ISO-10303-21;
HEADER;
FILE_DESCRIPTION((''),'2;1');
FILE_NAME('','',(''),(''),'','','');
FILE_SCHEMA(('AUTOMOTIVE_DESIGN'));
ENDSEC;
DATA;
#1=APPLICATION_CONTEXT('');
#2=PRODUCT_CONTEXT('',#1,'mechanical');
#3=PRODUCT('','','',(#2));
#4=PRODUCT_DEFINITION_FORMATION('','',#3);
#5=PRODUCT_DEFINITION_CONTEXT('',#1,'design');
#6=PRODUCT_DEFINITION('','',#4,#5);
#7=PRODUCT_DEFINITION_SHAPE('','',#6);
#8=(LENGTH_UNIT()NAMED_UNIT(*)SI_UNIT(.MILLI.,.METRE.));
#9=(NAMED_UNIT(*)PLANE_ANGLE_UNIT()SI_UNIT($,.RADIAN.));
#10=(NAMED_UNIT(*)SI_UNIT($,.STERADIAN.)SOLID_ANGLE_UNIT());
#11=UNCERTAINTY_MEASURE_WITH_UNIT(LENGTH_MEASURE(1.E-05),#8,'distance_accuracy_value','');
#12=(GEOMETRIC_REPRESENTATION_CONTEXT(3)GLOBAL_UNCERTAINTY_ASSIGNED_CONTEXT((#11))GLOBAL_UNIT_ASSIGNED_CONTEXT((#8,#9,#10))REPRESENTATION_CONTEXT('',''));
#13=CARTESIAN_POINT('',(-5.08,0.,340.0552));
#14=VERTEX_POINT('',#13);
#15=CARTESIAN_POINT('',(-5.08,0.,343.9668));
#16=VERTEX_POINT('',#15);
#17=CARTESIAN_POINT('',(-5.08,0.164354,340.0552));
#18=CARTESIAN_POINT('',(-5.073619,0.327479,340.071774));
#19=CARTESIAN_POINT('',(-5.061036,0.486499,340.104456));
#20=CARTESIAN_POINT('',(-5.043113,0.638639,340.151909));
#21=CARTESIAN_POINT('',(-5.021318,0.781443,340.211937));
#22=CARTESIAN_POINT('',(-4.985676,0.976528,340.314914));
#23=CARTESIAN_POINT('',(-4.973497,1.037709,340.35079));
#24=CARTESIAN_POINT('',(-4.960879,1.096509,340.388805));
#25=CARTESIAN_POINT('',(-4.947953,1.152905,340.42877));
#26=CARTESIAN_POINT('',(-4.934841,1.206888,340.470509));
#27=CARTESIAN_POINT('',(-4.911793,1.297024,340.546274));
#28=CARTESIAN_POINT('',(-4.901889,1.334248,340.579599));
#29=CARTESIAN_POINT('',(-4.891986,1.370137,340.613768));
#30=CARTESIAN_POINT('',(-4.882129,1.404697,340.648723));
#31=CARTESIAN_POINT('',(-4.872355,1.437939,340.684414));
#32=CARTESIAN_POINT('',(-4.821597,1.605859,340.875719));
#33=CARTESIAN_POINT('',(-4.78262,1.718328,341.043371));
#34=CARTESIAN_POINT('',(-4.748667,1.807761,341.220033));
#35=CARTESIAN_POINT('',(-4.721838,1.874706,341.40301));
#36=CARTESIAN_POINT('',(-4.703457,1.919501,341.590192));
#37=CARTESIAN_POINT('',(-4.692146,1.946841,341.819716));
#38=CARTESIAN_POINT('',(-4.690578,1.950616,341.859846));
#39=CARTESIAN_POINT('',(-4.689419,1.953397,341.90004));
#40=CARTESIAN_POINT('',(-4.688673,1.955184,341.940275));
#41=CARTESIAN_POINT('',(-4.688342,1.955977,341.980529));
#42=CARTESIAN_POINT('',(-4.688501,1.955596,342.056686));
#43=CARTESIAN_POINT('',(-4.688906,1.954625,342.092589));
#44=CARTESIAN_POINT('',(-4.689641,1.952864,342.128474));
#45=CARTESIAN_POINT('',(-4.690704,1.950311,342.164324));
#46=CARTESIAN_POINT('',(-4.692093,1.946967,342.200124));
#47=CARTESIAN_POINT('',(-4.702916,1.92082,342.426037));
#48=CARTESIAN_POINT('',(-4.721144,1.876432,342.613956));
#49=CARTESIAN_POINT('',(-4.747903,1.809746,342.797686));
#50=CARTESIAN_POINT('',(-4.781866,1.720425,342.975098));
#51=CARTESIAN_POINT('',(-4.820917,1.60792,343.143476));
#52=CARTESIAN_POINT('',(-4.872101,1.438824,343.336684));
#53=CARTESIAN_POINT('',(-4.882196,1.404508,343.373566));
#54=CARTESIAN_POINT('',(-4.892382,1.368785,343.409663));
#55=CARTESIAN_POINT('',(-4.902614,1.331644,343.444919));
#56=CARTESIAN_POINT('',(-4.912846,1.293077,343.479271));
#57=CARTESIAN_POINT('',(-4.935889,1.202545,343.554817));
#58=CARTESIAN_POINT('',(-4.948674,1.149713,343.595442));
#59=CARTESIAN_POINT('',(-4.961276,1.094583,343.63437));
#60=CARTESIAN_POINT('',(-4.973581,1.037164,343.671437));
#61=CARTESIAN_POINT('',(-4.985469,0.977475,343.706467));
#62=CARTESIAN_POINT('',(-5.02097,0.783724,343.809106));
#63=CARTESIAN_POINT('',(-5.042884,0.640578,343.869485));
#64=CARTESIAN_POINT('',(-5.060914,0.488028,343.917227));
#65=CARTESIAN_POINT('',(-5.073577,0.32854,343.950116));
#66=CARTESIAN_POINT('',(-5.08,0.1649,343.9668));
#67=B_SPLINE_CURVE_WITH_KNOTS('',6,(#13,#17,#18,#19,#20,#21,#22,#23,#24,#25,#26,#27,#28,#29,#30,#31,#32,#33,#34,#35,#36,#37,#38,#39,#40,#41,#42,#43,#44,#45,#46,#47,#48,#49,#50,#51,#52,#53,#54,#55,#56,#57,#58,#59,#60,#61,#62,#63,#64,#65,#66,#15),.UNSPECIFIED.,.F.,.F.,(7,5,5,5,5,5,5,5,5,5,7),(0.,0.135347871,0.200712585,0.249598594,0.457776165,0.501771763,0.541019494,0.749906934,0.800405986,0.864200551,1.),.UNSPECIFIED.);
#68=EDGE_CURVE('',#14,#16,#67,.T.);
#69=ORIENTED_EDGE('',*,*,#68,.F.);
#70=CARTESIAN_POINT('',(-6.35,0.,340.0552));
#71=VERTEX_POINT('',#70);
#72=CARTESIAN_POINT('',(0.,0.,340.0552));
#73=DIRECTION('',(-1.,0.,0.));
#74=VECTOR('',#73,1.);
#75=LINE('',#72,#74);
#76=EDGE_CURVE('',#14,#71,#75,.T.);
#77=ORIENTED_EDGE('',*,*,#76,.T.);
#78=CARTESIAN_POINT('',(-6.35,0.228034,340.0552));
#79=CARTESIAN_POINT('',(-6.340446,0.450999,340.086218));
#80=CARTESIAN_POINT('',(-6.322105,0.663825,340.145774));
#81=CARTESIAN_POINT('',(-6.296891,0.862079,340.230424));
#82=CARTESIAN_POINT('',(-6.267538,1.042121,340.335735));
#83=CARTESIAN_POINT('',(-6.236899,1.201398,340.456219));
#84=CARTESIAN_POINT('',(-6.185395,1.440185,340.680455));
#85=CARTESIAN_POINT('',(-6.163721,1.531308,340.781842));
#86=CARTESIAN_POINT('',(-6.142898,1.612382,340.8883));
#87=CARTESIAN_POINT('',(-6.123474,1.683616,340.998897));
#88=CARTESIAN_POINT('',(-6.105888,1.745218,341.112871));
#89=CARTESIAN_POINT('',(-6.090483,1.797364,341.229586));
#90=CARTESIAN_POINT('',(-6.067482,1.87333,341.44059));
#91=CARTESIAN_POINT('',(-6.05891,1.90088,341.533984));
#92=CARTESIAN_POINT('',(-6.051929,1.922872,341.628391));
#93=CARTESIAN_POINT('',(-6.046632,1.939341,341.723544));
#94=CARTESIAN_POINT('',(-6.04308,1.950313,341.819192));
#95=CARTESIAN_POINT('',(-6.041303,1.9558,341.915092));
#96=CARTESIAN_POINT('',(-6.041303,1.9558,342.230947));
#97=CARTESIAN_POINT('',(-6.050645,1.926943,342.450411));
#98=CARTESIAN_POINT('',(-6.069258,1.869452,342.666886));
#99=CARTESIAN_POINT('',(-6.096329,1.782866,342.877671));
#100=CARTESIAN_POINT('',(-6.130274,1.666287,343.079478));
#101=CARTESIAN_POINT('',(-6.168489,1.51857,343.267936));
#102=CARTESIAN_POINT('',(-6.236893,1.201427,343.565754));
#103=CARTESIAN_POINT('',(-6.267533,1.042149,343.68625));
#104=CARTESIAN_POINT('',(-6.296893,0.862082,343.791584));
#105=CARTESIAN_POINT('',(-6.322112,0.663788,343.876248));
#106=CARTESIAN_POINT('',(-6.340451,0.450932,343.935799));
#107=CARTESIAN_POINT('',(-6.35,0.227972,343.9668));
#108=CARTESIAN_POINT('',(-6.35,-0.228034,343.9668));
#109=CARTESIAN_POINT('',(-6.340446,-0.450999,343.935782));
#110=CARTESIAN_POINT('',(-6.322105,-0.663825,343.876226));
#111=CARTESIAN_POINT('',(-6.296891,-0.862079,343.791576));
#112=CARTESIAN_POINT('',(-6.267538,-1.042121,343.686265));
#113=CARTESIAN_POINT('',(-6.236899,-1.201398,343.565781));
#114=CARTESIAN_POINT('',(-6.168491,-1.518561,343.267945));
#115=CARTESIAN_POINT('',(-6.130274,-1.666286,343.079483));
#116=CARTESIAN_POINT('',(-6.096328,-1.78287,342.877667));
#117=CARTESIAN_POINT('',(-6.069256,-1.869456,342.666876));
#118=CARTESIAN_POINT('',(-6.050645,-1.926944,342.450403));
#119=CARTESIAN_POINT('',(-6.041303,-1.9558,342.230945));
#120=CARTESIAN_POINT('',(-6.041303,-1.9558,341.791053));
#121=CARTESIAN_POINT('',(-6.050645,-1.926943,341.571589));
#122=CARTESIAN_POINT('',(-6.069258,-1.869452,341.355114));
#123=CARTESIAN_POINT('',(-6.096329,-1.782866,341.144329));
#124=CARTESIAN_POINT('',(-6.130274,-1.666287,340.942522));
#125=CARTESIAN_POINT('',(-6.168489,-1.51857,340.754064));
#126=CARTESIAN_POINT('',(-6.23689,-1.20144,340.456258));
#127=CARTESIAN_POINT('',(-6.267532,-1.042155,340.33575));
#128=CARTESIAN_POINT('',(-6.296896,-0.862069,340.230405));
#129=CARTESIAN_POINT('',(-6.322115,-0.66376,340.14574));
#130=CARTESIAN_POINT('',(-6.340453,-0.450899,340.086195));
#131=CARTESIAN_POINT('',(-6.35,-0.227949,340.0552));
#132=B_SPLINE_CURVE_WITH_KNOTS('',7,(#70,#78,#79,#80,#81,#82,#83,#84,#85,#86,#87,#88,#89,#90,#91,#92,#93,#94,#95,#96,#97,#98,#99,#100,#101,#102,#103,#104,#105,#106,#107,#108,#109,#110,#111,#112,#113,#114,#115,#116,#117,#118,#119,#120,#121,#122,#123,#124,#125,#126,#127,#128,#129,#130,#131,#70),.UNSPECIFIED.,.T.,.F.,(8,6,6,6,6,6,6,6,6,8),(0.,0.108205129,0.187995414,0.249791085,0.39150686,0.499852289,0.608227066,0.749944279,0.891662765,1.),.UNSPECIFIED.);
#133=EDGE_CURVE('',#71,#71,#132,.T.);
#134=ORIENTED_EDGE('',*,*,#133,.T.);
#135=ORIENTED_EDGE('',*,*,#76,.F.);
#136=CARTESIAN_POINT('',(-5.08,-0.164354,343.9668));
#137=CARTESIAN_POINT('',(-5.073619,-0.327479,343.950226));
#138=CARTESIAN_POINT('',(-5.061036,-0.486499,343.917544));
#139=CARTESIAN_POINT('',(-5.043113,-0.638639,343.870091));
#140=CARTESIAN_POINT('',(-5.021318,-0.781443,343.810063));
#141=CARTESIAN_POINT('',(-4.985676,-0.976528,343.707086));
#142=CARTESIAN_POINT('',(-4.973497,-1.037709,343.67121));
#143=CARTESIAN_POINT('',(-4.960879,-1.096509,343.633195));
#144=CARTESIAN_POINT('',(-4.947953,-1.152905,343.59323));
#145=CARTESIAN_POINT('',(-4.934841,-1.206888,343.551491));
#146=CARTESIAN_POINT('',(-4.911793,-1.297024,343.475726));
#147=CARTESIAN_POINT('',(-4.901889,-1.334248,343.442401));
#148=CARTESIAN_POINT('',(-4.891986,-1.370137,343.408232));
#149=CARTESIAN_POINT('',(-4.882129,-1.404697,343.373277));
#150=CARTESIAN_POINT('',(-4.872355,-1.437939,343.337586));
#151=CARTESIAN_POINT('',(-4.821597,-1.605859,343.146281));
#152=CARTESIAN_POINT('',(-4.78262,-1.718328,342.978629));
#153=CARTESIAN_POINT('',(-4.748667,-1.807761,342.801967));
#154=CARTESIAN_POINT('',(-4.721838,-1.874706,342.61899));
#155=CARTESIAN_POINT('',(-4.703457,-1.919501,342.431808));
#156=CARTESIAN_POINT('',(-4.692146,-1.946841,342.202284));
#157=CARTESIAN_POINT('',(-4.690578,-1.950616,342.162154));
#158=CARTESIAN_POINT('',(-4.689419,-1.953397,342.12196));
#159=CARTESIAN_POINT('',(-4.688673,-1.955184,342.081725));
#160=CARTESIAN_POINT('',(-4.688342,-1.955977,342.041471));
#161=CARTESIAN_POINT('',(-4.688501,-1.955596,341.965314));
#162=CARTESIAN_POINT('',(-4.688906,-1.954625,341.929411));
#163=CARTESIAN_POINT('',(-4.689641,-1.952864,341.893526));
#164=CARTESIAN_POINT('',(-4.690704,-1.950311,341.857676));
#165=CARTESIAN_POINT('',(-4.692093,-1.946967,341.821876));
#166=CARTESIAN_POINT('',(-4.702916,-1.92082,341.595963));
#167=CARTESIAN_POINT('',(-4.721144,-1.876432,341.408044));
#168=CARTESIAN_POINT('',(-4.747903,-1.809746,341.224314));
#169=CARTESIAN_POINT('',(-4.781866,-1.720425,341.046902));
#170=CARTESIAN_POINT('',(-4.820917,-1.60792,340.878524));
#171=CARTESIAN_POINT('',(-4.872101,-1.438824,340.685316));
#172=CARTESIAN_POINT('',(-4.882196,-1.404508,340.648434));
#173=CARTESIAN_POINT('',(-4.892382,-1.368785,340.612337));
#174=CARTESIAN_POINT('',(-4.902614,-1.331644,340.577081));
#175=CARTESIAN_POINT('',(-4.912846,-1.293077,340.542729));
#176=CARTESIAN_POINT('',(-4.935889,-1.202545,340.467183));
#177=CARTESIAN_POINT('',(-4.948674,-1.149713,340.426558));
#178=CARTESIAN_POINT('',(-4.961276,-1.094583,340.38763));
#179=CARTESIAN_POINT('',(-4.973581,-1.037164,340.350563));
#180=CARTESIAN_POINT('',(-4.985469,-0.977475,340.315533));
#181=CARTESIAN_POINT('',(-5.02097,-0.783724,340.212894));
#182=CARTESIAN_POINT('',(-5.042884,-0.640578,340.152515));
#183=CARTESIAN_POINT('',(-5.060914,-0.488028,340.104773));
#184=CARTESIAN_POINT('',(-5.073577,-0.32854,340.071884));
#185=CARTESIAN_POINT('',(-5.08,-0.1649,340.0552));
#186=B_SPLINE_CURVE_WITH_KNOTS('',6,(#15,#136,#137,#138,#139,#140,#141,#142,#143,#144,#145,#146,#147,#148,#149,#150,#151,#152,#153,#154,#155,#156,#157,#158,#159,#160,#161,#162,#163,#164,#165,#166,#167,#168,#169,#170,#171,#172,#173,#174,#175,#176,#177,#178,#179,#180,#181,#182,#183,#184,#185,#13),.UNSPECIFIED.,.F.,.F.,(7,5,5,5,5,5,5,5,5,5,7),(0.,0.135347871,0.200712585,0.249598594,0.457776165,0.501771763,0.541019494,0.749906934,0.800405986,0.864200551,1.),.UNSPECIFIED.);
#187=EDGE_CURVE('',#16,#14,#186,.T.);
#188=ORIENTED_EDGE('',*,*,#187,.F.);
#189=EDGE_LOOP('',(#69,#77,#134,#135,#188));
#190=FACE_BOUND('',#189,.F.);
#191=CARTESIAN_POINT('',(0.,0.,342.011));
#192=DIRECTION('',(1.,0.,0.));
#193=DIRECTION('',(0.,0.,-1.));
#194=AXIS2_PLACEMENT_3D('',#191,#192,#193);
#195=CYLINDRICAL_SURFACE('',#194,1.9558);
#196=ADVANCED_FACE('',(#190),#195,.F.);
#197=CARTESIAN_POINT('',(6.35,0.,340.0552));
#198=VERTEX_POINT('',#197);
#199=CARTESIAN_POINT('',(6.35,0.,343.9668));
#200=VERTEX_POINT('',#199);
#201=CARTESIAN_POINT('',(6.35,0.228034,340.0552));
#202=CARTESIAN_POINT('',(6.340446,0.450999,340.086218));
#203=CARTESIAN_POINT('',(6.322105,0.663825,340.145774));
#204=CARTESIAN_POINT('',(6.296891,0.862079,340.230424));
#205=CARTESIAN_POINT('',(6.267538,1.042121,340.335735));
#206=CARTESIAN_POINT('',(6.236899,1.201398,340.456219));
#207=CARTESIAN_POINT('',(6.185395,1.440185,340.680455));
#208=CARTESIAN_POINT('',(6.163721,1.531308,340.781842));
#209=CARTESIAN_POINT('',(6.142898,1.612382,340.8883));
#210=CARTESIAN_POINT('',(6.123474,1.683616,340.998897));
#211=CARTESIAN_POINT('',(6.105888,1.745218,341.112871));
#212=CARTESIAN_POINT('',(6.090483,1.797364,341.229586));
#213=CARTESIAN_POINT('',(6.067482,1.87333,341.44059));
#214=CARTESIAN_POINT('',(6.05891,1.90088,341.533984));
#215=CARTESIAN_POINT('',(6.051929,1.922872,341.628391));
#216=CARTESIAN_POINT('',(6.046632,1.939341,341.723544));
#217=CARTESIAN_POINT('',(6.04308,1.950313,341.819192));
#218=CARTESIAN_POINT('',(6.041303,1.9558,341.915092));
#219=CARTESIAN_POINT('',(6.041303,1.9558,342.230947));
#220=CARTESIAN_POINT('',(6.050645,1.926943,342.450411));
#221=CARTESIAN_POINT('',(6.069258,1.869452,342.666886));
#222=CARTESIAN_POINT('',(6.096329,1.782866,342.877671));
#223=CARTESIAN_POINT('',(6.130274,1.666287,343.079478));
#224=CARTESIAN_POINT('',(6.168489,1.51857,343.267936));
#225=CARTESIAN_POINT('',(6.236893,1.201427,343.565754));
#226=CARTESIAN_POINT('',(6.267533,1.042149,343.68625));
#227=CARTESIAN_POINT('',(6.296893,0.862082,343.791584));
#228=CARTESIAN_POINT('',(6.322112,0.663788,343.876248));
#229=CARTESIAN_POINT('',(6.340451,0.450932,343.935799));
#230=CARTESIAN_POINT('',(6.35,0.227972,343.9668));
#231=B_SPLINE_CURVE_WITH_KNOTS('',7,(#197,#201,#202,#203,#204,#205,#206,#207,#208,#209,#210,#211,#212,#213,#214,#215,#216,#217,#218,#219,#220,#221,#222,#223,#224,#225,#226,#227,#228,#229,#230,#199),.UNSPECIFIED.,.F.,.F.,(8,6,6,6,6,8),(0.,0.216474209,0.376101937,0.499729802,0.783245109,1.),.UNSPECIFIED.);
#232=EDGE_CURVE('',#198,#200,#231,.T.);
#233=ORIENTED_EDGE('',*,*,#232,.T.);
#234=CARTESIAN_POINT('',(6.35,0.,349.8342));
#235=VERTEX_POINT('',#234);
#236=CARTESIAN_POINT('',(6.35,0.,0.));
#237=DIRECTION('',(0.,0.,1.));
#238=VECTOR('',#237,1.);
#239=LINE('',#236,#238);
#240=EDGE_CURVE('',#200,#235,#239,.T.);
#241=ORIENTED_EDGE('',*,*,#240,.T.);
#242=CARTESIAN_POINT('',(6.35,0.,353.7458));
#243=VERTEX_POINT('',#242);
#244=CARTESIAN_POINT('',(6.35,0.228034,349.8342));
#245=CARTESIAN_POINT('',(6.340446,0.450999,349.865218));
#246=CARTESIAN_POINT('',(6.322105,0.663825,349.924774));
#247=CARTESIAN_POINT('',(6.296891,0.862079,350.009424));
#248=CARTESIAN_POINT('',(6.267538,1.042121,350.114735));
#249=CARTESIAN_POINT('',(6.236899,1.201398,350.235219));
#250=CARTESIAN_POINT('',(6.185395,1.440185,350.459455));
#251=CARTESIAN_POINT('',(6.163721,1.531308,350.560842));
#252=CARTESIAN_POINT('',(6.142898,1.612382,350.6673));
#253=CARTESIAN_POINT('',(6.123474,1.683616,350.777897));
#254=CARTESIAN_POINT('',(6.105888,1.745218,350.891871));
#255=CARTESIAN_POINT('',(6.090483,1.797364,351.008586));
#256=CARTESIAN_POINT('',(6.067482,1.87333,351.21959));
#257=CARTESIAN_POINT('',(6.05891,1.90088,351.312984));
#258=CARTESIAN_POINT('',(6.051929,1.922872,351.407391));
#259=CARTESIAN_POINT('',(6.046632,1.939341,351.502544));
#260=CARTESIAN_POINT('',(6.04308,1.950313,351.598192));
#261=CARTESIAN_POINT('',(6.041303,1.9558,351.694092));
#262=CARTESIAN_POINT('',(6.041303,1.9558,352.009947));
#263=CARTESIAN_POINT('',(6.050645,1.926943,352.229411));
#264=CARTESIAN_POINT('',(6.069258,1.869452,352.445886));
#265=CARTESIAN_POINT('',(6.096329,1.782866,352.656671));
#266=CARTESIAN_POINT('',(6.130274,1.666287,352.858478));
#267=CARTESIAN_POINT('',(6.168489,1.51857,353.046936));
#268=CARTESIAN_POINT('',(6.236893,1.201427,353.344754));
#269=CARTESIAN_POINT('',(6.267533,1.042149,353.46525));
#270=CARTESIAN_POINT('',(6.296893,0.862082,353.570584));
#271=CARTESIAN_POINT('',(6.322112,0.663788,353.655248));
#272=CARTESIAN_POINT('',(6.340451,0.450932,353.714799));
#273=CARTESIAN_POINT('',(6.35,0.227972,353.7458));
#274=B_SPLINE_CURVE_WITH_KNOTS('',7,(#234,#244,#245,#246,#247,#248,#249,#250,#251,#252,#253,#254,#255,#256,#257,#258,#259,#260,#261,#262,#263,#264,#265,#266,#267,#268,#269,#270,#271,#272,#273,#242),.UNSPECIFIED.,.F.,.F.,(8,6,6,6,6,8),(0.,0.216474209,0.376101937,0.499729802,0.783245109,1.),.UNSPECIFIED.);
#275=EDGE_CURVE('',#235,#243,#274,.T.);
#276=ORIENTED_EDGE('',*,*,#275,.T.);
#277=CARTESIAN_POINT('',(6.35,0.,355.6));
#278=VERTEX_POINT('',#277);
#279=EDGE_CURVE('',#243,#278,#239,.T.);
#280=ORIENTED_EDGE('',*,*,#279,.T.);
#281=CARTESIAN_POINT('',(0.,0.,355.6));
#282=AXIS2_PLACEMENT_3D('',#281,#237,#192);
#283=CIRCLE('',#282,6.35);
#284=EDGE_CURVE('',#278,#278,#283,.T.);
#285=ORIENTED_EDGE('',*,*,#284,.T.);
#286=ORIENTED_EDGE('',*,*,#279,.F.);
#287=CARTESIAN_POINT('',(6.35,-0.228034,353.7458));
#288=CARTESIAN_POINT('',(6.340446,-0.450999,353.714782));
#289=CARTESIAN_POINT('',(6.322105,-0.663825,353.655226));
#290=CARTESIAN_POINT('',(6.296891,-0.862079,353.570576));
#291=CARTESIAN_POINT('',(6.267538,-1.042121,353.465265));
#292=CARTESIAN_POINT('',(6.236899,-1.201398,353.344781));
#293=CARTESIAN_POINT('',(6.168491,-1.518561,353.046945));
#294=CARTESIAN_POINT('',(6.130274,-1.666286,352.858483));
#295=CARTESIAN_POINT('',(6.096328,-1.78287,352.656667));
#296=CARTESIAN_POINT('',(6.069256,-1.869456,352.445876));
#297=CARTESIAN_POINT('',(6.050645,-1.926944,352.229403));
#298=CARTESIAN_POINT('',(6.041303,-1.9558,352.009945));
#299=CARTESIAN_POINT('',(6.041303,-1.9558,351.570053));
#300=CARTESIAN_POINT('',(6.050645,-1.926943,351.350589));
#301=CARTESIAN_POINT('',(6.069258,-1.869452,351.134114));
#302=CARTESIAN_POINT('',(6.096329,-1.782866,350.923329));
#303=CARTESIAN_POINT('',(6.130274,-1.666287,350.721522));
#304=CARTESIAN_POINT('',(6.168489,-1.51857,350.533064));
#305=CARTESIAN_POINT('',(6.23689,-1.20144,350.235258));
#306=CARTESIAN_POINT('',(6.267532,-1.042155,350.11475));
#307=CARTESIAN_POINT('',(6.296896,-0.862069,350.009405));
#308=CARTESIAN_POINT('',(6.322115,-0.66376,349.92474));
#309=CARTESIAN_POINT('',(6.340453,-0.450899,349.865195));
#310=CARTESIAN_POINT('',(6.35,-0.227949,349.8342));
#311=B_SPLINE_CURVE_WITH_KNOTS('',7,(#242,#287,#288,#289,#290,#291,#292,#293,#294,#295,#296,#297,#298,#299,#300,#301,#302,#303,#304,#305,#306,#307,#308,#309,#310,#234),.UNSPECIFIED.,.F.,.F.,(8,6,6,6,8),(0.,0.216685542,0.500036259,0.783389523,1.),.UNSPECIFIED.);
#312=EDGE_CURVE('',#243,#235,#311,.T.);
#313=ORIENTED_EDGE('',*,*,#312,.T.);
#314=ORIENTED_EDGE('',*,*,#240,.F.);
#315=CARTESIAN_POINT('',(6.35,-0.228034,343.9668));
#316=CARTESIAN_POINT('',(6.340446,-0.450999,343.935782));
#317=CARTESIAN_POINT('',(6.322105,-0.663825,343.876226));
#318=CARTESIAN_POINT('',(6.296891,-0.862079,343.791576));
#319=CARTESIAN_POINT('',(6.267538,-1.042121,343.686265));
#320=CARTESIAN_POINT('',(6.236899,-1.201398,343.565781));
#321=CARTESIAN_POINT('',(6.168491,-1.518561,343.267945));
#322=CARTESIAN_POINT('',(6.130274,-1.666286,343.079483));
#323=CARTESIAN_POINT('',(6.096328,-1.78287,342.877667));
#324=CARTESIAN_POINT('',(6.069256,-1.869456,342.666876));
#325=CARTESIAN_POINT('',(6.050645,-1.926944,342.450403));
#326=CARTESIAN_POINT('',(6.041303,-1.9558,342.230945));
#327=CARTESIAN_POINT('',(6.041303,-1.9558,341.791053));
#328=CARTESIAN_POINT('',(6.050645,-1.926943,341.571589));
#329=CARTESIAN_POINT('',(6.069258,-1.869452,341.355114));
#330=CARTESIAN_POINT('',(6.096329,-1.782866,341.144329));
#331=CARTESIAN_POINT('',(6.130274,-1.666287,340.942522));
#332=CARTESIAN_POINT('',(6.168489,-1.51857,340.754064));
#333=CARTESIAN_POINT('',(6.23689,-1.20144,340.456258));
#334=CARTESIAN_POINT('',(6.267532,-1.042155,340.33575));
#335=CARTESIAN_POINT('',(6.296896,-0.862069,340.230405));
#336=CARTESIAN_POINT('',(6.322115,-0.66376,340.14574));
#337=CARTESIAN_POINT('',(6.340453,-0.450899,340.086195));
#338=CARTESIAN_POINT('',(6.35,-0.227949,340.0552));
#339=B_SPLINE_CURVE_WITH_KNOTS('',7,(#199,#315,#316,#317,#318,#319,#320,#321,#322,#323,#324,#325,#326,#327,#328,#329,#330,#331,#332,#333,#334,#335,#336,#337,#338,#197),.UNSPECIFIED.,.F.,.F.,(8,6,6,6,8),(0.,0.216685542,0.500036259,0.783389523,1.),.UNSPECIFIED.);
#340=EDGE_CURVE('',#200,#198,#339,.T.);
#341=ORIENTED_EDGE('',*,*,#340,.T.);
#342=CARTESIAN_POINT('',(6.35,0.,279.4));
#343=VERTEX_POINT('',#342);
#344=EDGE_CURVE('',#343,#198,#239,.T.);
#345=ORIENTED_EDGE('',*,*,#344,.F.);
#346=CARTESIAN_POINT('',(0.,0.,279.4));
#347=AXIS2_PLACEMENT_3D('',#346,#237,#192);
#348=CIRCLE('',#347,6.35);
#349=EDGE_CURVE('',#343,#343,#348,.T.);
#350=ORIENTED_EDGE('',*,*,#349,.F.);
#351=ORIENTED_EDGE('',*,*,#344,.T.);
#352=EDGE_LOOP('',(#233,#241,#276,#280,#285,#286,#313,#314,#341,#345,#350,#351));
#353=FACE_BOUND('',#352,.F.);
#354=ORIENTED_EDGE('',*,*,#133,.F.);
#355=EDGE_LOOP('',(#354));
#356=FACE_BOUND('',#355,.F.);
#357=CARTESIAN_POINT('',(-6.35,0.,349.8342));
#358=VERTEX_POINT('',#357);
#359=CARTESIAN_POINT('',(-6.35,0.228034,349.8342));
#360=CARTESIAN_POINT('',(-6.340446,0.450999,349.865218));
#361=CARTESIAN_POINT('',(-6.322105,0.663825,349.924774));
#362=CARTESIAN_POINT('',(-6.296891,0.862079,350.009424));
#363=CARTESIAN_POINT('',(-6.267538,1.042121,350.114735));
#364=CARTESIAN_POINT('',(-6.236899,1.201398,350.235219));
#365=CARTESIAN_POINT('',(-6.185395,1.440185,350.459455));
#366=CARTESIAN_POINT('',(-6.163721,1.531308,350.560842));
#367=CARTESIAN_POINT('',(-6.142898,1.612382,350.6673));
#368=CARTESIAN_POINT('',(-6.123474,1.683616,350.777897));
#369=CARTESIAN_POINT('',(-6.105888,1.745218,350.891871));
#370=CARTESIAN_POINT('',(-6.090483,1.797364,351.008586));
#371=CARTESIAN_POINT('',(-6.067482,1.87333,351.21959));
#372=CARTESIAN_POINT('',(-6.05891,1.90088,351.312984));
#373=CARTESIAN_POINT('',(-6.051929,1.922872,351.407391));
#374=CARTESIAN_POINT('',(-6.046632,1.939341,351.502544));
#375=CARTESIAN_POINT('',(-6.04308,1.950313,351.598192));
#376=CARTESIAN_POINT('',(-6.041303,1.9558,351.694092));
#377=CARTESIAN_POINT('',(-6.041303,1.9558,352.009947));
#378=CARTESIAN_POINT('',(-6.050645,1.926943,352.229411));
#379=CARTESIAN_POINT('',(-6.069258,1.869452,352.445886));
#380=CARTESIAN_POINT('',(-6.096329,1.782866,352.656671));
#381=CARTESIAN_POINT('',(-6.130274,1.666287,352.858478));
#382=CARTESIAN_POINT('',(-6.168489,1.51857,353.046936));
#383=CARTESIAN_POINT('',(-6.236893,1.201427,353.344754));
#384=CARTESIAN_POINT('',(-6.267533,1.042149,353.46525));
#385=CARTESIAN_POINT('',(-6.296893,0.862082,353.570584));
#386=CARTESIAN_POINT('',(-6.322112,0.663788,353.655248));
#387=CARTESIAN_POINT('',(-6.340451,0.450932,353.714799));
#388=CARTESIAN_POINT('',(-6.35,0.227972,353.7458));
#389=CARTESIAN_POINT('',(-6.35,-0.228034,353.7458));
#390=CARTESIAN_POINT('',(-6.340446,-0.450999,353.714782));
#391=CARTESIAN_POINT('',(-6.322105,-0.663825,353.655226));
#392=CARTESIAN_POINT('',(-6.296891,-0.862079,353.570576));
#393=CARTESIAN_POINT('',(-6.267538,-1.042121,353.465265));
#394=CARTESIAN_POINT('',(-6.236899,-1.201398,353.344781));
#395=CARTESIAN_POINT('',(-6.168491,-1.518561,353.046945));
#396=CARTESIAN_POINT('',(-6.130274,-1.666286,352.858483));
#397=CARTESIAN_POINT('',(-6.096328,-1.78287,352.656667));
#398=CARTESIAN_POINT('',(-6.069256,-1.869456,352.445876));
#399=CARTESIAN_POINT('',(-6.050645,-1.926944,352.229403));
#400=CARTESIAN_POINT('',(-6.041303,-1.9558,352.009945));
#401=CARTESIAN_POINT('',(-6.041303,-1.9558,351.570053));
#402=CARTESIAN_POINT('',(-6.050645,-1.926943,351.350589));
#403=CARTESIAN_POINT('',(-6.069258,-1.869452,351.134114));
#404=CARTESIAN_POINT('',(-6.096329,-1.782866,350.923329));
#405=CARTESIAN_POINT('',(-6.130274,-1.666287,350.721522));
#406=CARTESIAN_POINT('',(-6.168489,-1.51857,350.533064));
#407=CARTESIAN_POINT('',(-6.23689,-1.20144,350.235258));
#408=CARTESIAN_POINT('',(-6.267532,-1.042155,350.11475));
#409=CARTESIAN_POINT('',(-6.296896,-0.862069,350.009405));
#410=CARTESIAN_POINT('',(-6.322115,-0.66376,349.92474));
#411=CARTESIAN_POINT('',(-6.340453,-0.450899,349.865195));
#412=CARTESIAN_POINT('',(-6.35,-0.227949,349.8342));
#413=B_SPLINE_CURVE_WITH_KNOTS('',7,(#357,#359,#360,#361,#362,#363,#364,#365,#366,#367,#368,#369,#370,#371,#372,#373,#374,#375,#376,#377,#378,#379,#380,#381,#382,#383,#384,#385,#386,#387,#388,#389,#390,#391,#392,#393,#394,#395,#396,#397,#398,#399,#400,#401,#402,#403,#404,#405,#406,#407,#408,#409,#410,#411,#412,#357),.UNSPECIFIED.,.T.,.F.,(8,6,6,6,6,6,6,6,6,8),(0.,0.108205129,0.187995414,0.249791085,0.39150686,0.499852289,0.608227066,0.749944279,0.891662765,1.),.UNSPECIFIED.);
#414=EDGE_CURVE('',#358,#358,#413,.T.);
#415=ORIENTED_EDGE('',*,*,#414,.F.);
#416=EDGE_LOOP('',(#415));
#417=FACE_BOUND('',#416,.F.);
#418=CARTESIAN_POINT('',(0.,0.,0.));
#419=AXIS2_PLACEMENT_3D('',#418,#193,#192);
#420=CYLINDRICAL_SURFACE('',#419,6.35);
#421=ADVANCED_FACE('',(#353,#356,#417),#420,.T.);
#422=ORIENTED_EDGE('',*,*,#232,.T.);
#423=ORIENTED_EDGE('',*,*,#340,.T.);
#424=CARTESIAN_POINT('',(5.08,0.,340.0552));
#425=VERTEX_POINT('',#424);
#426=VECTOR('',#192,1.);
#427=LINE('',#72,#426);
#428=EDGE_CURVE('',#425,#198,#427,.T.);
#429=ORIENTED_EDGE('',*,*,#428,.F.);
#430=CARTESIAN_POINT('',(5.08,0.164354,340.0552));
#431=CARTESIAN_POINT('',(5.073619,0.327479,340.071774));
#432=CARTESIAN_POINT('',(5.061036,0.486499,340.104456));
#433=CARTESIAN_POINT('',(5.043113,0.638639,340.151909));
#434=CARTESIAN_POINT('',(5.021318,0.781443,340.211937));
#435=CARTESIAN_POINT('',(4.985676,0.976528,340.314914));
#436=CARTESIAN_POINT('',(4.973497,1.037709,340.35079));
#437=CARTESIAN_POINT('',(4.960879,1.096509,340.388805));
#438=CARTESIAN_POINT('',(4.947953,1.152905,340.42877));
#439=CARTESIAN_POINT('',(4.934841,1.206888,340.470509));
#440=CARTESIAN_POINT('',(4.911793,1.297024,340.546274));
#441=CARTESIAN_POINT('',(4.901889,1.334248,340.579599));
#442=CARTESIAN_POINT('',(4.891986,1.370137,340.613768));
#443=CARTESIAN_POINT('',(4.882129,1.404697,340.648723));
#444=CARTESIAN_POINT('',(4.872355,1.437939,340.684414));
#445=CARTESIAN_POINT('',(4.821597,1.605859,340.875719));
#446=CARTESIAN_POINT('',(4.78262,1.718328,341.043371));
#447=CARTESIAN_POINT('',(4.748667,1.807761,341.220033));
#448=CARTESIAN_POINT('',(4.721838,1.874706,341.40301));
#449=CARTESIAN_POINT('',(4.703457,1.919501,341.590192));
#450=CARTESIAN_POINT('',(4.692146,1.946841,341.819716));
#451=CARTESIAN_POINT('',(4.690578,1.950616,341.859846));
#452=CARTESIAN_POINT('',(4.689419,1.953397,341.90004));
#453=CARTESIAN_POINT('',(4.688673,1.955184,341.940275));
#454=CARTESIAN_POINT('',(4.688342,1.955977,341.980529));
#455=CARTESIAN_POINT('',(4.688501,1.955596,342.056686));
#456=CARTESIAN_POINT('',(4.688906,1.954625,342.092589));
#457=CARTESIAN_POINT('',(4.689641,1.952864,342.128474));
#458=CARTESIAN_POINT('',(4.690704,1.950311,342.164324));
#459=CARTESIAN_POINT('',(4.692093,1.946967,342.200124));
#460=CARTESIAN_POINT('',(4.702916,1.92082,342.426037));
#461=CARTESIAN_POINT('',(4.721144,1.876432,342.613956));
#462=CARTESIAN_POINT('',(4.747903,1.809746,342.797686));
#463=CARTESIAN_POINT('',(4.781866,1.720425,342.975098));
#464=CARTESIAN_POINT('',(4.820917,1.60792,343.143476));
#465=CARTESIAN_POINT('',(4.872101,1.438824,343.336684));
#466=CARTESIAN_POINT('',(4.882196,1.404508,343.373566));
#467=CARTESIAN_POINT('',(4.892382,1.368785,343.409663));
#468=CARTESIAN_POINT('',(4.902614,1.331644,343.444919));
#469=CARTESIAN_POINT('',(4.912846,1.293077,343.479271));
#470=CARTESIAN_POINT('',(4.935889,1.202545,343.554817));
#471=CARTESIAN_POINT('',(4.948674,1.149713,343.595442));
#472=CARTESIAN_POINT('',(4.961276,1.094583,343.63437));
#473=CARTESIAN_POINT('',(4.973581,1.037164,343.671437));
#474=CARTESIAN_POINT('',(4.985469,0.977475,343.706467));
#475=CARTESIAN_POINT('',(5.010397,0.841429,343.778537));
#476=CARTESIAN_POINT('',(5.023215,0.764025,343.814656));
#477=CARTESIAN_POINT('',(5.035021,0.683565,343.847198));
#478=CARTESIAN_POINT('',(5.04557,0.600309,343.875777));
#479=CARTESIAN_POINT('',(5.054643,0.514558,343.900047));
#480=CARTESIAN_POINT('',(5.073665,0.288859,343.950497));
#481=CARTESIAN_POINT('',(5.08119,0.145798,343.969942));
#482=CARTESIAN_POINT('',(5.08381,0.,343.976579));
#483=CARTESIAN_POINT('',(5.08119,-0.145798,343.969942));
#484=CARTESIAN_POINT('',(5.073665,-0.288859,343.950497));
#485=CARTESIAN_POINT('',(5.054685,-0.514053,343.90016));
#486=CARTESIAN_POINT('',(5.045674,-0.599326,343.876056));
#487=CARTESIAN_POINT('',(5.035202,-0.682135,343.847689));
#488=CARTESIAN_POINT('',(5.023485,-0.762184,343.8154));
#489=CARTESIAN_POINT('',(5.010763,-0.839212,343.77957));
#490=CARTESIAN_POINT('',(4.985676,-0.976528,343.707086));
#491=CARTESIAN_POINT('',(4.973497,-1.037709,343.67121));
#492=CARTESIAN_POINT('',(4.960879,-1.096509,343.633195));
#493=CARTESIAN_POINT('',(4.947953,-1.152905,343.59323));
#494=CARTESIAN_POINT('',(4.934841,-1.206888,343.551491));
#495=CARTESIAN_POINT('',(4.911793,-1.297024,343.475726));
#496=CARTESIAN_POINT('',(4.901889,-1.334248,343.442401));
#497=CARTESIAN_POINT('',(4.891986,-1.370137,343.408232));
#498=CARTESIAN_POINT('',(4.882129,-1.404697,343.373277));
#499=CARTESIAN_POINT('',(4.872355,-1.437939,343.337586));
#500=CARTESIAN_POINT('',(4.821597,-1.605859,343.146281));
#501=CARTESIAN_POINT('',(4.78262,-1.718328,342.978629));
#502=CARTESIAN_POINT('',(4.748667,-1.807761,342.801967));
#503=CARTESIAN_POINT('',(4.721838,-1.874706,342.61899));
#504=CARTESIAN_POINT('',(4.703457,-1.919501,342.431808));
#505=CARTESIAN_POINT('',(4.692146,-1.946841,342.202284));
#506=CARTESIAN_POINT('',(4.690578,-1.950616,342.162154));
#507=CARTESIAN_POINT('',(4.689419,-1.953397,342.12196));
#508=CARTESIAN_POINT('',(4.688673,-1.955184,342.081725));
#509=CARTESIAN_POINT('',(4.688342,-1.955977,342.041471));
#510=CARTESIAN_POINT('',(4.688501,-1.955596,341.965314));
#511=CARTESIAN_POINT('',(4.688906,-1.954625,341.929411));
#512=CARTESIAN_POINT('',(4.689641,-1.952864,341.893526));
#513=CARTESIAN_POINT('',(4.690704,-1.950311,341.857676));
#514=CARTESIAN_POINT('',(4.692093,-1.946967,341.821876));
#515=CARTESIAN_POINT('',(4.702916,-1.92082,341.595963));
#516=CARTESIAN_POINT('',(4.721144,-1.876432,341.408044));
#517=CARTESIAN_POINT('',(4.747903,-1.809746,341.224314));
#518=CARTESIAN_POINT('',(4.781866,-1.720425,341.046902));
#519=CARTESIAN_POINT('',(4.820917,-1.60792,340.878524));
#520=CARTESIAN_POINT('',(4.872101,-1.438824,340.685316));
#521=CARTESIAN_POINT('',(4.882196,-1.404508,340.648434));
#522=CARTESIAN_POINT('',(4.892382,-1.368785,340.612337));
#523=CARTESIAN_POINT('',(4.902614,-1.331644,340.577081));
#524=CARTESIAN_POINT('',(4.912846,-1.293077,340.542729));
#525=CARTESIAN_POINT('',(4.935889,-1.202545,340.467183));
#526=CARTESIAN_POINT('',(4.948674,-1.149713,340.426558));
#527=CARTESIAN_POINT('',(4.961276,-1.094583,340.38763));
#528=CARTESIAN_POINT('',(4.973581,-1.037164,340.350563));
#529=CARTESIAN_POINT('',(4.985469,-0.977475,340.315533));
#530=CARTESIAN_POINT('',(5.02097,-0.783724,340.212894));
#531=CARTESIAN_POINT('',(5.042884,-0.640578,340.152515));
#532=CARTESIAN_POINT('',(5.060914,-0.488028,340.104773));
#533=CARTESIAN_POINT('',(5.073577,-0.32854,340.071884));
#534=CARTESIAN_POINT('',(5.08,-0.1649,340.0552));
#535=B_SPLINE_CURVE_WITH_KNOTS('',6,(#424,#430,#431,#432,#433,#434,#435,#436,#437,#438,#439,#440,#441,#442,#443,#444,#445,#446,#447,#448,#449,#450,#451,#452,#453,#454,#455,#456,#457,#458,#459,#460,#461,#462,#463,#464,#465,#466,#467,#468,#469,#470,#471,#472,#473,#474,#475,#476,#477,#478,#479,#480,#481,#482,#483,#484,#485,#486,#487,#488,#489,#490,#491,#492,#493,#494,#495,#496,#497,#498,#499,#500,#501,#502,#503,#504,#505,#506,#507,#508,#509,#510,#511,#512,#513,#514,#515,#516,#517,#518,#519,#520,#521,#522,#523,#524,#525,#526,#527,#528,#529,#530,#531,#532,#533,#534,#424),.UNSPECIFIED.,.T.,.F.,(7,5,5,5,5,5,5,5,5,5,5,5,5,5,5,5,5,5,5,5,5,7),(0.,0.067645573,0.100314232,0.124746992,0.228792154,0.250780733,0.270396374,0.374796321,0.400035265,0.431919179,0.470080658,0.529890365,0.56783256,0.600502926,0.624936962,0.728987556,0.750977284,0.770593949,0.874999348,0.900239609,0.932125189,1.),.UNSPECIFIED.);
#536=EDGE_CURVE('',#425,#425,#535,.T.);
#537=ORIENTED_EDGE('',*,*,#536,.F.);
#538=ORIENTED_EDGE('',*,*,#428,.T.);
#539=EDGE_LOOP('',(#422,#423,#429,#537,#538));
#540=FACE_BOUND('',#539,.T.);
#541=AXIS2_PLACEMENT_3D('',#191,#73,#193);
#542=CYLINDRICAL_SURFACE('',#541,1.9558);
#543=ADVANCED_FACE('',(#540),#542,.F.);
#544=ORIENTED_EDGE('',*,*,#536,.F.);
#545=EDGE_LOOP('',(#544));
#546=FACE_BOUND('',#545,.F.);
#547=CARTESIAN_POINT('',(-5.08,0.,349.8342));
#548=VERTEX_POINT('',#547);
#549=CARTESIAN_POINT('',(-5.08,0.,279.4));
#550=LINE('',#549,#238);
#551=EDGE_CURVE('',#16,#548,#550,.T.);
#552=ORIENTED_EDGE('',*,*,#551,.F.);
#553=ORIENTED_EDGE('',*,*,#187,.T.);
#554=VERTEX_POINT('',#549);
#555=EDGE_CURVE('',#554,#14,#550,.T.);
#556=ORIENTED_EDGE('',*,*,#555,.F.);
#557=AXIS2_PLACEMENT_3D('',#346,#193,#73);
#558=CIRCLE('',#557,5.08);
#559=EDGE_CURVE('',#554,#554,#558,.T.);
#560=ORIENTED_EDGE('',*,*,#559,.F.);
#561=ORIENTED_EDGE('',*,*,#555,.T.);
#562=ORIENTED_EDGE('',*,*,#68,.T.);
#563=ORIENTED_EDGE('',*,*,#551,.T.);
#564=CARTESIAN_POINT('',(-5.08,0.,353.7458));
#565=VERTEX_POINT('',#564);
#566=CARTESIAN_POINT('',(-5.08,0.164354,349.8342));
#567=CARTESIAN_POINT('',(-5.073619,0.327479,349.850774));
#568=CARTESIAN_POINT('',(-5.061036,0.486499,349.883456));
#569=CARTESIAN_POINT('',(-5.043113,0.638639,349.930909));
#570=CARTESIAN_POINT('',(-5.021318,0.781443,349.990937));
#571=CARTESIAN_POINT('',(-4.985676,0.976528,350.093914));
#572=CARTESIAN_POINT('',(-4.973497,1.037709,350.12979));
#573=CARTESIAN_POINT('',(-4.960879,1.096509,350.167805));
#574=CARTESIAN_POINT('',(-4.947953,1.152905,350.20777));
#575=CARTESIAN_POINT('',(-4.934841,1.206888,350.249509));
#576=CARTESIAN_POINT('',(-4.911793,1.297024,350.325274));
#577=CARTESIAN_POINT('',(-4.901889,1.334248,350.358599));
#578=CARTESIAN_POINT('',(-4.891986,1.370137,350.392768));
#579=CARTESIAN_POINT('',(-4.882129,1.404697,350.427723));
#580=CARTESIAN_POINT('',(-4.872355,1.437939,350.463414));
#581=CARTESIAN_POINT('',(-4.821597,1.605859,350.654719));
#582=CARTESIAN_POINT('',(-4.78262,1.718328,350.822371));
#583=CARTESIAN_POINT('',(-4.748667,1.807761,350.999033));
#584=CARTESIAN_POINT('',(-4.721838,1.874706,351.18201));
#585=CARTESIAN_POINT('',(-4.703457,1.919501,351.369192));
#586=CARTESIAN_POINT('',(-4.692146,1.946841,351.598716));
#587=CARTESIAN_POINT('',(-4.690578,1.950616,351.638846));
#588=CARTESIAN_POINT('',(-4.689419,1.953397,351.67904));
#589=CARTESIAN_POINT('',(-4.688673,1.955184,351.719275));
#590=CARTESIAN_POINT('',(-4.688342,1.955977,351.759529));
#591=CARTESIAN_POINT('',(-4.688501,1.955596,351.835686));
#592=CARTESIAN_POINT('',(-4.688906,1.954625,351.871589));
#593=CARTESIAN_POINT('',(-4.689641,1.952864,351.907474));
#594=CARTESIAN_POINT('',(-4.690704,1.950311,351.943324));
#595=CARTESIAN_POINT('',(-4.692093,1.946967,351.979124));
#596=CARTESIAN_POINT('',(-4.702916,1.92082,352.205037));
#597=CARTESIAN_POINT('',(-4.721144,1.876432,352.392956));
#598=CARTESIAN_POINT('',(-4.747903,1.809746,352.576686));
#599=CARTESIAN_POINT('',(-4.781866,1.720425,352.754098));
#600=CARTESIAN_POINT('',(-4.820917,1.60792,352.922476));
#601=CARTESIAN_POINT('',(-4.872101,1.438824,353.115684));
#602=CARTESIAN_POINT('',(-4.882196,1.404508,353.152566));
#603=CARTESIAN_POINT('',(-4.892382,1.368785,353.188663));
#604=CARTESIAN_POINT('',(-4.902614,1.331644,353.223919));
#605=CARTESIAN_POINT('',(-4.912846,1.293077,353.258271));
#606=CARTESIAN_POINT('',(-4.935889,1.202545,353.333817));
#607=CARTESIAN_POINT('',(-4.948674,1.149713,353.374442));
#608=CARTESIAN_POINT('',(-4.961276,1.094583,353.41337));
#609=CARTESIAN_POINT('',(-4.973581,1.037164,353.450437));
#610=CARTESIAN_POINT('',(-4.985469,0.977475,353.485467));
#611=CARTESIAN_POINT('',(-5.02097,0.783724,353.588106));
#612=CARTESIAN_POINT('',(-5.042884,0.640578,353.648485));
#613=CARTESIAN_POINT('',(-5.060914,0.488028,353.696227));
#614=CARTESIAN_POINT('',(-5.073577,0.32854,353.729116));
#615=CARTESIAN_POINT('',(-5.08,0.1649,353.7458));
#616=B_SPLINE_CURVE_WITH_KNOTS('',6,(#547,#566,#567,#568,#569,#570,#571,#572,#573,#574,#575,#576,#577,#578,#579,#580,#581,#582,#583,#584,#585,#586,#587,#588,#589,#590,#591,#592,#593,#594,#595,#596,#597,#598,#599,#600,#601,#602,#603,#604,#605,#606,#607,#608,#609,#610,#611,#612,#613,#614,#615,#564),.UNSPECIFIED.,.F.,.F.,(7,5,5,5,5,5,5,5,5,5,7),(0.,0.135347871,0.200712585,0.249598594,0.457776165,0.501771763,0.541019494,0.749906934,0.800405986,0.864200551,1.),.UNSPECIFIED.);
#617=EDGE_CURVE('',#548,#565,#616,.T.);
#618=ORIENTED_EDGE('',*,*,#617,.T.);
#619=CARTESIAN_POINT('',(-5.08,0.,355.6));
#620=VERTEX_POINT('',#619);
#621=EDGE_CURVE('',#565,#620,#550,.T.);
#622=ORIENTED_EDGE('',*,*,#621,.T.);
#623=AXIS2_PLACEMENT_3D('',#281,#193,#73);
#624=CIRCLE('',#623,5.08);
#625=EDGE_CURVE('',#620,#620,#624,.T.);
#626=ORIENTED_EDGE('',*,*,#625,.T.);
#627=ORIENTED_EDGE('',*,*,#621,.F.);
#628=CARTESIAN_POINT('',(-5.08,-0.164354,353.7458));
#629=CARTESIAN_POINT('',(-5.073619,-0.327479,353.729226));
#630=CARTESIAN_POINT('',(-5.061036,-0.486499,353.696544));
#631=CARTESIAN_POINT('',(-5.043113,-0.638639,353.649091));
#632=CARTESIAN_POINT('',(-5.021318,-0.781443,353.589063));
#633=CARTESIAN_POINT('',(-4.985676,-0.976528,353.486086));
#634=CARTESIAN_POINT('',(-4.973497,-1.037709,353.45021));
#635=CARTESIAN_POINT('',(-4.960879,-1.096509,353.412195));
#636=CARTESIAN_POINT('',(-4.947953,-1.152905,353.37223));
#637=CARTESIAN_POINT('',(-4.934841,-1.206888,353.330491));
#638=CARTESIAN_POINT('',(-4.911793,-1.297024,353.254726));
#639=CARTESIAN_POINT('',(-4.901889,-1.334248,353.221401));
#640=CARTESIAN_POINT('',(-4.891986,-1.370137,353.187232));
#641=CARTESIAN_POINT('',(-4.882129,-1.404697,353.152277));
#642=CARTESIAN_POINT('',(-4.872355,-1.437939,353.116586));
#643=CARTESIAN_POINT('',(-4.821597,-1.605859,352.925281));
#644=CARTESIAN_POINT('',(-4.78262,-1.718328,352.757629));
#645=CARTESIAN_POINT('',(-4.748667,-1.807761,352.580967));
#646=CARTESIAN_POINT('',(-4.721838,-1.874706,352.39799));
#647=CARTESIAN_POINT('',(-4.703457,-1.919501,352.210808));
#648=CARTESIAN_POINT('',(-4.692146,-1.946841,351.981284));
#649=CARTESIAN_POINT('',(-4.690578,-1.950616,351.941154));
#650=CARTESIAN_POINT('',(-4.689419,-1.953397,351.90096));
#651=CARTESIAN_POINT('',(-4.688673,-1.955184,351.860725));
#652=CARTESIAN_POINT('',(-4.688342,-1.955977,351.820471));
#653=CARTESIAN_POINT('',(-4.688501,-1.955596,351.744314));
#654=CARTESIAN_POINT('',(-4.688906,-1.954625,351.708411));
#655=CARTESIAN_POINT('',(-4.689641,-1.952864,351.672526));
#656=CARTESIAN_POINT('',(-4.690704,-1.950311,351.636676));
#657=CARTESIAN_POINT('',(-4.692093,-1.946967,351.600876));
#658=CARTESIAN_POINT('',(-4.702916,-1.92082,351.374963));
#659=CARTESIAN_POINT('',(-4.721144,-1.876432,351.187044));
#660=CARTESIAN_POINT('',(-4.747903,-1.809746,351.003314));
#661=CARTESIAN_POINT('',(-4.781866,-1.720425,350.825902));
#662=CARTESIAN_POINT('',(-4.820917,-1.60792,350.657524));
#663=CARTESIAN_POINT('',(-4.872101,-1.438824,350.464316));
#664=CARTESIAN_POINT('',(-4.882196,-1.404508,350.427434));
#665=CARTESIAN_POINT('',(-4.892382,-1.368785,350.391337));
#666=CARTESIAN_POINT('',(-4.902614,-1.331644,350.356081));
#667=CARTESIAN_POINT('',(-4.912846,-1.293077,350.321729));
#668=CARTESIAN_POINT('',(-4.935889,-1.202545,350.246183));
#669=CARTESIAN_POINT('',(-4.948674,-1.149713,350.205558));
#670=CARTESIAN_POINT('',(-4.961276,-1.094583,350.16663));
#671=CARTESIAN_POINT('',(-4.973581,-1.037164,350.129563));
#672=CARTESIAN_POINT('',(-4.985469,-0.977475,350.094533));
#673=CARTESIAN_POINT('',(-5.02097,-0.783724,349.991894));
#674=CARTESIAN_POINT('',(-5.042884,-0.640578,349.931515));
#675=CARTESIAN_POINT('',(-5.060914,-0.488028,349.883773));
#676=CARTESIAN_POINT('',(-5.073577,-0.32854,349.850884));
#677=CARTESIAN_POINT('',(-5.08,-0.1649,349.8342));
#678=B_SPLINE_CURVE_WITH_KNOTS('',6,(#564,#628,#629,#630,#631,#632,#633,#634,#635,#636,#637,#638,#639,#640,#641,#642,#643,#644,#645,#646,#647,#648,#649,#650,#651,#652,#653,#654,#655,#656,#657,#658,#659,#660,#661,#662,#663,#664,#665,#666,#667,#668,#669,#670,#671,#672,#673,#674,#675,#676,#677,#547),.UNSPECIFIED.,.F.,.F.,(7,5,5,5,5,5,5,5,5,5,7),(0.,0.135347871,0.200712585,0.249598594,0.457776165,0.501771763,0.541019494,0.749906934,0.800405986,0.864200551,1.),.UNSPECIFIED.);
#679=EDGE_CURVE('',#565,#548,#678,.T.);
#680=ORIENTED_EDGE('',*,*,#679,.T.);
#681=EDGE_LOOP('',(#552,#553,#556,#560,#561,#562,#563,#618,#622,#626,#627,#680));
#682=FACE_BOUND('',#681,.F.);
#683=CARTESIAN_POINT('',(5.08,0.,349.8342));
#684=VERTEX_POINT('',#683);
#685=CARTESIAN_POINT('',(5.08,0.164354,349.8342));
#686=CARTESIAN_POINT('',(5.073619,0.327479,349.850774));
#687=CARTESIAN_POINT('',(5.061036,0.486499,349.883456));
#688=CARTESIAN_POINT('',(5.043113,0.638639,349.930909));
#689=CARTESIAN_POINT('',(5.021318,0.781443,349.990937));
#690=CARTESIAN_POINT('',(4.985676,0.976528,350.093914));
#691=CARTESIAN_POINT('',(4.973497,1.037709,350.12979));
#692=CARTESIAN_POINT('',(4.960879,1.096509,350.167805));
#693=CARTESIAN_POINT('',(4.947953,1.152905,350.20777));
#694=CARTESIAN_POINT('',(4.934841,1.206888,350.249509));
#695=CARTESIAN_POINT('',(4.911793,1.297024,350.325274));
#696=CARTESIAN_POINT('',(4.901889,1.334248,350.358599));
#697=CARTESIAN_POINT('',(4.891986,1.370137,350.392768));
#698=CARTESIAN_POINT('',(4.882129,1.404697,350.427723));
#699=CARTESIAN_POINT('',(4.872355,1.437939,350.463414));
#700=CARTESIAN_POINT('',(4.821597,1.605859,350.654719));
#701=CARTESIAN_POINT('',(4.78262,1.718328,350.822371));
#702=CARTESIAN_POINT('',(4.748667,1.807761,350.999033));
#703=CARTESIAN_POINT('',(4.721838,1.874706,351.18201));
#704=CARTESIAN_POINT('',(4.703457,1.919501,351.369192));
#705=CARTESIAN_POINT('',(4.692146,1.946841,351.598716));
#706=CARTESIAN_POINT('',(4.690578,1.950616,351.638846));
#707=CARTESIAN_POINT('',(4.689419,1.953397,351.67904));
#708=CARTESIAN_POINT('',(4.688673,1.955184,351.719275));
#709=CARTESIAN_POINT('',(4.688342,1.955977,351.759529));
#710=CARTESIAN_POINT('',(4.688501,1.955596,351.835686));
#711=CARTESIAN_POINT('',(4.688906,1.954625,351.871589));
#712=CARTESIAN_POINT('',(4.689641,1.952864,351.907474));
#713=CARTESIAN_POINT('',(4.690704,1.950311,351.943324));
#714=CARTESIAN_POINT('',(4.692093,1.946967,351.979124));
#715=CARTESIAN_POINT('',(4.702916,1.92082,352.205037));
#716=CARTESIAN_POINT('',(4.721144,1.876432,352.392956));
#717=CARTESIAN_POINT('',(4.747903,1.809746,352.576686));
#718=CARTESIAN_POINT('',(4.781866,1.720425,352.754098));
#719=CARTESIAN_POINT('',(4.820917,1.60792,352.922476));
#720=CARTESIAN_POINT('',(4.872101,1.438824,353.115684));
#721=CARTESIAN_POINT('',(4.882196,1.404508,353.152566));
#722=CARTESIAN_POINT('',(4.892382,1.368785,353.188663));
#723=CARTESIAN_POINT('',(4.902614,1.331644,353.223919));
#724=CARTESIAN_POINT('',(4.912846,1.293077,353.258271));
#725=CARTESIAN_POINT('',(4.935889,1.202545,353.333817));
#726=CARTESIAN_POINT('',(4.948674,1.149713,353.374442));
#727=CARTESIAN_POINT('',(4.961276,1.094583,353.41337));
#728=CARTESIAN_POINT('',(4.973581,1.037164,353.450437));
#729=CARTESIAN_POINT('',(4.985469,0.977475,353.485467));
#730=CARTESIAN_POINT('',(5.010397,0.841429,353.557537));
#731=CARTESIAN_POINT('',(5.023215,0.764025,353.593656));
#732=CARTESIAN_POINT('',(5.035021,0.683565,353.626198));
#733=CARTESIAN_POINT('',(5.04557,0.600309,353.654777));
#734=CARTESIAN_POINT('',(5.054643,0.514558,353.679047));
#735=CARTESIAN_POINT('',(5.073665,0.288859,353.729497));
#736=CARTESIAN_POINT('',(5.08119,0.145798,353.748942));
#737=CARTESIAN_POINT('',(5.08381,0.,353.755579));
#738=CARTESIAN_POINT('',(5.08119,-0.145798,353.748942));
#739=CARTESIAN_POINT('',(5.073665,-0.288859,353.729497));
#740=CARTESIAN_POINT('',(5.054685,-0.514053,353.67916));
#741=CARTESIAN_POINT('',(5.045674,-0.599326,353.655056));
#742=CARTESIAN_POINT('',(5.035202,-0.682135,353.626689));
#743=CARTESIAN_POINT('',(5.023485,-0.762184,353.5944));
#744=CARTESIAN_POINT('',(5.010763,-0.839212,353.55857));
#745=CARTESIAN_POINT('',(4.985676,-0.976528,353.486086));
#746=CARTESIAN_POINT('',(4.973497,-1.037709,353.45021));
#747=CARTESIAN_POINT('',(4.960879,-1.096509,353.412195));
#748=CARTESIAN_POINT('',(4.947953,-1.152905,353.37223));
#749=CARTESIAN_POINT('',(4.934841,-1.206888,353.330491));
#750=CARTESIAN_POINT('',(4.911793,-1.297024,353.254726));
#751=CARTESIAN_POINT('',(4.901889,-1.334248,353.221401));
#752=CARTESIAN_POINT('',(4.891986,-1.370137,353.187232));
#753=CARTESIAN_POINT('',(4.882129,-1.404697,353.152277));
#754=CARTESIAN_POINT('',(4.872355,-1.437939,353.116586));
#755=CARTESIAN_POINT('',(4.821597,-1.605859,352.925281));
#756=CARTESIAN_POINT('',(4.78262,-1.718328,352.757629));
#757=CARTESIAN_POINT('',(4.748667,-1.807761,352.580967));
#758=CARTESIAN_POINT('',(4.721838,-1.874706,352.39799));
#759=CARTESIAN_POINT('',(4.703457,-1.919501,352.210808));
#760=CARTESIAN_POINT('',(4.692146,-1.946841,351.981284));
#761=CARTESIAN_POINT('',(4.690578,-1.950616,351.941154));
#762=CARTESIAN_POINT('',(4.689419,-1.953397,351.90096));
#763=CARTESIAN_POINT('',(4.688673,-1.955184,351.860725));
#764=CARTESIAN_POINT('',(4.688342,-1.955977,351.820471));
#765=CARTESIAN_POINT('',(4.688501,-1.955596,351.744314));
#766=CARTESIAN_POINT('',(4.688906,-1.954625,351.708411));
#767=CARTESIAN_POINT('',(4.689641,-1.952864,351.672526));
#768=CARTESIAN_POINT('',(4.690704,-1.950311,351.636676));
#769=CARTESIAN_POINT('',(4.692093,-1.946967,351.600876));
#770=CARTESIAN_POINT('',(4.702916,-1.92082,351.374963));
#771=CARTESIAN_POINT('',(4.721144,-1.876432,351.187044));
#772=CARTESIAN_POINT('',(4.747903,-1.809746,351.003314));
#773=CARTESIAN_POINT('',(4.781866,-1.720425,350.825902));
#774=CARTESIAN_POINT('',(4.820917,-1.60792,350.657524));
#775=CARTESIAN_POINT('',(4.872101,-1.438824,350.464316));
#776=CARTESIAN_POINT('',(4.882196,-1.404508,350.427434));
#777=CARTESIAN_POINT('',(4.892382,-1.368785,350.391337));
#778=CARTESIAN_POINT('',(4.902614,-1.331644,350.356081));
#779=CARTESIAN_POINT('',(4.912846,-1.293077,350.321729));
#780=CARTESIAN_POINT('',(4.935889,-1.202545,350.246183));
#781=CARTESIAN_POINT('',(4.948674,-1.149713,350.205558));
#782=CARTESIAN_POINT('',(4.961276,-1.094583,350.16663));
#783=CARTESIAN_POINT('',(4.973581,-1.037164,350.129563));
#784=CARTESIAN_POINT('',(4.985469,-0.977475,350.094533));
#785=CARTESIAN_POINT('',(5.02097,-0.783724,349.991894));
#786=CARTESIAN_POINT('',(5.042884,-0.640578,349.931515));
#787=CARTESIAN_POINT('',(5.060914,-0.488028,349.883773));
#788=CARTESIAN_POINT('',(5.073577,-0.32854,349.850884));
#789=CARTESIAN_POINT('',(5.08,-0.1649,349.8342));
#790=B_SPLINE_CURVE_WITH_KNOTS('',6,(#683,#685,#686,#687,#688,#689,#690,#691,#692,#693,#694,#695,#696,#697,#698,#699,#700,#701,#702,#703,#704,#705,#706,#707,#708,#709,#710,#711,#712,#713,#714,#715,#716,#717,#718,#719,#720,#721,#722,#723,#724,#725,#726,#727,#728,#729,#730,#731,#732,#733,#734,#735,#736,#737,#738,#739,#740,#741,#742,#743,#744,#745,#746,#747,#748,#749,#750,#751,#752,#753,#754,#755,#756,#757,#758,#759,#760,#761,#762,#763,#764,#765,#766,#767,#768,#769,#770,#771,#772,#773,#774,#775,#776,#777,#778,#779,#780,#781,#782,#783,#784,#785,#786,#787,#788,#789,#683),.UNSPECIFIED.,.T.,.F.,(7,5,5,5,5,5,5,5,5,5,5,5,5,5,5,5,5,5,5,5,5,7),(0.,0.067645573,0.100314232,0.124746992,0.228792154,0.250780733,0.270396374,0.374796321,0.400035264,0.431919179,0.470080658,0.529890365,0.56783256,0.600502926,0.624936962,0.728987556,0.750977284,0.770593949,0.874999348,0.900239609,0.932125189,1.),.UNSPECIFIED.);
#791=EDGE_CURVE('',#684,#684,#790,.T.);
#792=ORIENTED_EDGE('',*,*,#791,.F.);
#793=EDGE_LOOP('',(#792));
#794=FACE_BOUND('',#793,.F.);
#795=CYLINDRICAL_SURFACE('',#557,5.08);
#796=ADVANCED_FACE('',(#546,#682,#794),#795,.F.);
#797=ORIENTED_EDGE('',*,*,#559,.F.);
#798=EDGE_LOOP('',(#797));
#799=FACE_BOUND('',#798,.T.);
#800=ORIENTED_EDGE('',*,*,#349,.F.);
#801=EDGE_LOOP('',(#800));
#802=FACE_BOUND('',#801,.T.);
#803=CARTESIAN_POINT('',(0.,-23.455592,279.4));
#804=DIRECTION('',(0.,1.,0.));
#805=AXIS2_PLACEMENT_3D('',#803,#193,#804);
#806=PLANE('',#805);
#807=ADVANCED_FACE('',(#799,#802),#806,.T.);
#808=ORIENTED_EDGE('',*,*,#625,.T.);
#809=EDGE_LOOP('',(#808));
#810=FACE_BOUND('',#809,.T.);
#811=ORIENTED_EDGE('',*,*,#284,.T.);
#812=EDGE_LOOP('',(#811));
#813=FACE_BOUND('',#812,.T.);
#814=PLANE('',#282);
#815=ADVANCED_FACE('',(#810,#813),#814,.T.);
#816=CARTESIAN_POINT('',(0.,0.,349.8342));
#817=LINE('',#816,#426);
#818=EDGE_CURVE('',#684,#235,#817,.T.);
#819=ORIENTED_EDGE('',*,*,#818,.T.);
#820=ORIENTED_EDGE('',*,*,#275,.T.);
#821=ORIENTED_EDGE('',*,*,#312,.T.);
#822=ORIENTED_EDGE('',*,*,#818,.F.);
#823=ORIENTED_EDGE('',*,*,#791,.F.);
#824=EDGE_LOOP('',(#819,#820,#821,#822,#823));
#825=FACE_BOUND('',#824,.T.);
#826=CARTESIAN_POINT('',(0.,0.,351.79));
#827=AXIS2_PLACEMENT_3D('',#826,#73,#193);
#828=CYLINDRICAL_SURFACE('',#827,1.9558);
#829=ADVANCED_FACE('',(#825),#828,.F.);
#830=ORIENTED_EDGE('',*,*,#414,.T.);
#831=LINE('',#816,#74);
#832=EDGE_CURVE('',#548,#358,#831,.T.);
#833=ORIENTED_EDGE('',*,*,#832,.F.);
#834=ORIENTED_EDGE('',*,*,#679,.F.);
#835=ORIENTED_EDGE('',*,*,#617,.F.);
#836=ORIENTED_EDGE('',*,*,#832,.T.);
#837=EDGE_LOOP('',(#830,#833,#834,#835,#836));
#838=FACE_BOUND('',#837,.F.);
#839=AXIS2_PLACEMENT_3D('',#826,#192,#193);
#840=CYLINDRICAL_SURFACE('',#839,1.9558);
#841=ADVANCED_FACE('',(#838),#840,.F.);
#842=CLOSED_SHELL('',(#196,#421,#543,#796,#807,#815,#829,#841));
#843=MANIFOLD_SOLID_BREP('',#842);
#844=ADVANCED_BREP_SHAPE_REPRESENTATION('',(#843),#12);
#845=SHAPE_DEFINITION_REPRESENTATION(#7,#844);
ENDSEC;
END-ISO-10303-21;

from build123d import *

# Parameters (mm, degrees)
SKETCH2_R               = 6.35
BOSS_EXTRUDE1_DEPTH     = 355.6
SKETCH3_R               = 1.9558
CUT_EXTRUDE5_DEPTH      = 177.8
SKETCH4_W               = 279.4
SKETCH4_H               = 48.019067171
CUT_EXTRUDE7_DEPTH      = 7.3500001
CUT_EXTRUDE7_DEPTH_BACK = 7.3500001
SKETCH5_R               = 5.08
CUT_EXTRUDE8_DEPTH      = 77.2000001


with BuildPart() as part:
    # Sketch2 → Boss-Extrude1 (new body)
    with BuildSketch(Plane.XY):
        Circle(SKETCH2_R)
    extrude(amount=BOSS_EXTRUDE1_DEPTH)

    # Sketch3 → Cut-Extrude5 (cut, symmetric)
    with BuildSketch(Plane(origin=(0, 0, 0), x_dir=(0, 0, -1), z_dir=(1, 0, 0))):
        with Locations((-351.79, 0)):
            Circle(SKETCH3_R)
        with Locations((-342.011, 0)):
            Circle(SKETCH3_R)
        with Locations((-13.589, 0)):
            Circle(SKETCH3_R)
        with Locations((-3.81, 0)):
            Circle(SKETCH3_R)
    extrude(amount=CUT_EXTRUDE5_DEPTH, both=True, mode=Mode.SUBTRACT)

    # Sketch4 → Cut-Extrude7 (cut, two sides)
    with BuildSketch(Plane(origin=(0, 0, 0), x_dir=(0, 0, -1), z_dir=(1, 0, 0))) as cut_extrude7_sk:
        with Locations((-139.7, 0.553941087)):
            Rectangle(SKETCH4_W, SKETCH4_H)
    extrude(amount=CUT_EXTRUDE7_DEPTH, mode=Mode.SUBTRACT)
    extrude(cut_extrude7_sk.sketch, amount=-CUT_EXTRUDE7_DEPTH_BACK, mode=Mode.SUBTRACT)

    # Sketch5 → Cut-Extrude8 (cut, through all)
    with BuildSketch(Plane(origin=(0, 0, 279.4), x_dir=(-1, 0, 0), z_dir=(0, 0, -1))):
        Circle(SKETCH5_R)
    extrude(amount=-CUT_EXTRUDE8_DEPTH, mode=Mode.SUBTRACT)


solid = part.part
